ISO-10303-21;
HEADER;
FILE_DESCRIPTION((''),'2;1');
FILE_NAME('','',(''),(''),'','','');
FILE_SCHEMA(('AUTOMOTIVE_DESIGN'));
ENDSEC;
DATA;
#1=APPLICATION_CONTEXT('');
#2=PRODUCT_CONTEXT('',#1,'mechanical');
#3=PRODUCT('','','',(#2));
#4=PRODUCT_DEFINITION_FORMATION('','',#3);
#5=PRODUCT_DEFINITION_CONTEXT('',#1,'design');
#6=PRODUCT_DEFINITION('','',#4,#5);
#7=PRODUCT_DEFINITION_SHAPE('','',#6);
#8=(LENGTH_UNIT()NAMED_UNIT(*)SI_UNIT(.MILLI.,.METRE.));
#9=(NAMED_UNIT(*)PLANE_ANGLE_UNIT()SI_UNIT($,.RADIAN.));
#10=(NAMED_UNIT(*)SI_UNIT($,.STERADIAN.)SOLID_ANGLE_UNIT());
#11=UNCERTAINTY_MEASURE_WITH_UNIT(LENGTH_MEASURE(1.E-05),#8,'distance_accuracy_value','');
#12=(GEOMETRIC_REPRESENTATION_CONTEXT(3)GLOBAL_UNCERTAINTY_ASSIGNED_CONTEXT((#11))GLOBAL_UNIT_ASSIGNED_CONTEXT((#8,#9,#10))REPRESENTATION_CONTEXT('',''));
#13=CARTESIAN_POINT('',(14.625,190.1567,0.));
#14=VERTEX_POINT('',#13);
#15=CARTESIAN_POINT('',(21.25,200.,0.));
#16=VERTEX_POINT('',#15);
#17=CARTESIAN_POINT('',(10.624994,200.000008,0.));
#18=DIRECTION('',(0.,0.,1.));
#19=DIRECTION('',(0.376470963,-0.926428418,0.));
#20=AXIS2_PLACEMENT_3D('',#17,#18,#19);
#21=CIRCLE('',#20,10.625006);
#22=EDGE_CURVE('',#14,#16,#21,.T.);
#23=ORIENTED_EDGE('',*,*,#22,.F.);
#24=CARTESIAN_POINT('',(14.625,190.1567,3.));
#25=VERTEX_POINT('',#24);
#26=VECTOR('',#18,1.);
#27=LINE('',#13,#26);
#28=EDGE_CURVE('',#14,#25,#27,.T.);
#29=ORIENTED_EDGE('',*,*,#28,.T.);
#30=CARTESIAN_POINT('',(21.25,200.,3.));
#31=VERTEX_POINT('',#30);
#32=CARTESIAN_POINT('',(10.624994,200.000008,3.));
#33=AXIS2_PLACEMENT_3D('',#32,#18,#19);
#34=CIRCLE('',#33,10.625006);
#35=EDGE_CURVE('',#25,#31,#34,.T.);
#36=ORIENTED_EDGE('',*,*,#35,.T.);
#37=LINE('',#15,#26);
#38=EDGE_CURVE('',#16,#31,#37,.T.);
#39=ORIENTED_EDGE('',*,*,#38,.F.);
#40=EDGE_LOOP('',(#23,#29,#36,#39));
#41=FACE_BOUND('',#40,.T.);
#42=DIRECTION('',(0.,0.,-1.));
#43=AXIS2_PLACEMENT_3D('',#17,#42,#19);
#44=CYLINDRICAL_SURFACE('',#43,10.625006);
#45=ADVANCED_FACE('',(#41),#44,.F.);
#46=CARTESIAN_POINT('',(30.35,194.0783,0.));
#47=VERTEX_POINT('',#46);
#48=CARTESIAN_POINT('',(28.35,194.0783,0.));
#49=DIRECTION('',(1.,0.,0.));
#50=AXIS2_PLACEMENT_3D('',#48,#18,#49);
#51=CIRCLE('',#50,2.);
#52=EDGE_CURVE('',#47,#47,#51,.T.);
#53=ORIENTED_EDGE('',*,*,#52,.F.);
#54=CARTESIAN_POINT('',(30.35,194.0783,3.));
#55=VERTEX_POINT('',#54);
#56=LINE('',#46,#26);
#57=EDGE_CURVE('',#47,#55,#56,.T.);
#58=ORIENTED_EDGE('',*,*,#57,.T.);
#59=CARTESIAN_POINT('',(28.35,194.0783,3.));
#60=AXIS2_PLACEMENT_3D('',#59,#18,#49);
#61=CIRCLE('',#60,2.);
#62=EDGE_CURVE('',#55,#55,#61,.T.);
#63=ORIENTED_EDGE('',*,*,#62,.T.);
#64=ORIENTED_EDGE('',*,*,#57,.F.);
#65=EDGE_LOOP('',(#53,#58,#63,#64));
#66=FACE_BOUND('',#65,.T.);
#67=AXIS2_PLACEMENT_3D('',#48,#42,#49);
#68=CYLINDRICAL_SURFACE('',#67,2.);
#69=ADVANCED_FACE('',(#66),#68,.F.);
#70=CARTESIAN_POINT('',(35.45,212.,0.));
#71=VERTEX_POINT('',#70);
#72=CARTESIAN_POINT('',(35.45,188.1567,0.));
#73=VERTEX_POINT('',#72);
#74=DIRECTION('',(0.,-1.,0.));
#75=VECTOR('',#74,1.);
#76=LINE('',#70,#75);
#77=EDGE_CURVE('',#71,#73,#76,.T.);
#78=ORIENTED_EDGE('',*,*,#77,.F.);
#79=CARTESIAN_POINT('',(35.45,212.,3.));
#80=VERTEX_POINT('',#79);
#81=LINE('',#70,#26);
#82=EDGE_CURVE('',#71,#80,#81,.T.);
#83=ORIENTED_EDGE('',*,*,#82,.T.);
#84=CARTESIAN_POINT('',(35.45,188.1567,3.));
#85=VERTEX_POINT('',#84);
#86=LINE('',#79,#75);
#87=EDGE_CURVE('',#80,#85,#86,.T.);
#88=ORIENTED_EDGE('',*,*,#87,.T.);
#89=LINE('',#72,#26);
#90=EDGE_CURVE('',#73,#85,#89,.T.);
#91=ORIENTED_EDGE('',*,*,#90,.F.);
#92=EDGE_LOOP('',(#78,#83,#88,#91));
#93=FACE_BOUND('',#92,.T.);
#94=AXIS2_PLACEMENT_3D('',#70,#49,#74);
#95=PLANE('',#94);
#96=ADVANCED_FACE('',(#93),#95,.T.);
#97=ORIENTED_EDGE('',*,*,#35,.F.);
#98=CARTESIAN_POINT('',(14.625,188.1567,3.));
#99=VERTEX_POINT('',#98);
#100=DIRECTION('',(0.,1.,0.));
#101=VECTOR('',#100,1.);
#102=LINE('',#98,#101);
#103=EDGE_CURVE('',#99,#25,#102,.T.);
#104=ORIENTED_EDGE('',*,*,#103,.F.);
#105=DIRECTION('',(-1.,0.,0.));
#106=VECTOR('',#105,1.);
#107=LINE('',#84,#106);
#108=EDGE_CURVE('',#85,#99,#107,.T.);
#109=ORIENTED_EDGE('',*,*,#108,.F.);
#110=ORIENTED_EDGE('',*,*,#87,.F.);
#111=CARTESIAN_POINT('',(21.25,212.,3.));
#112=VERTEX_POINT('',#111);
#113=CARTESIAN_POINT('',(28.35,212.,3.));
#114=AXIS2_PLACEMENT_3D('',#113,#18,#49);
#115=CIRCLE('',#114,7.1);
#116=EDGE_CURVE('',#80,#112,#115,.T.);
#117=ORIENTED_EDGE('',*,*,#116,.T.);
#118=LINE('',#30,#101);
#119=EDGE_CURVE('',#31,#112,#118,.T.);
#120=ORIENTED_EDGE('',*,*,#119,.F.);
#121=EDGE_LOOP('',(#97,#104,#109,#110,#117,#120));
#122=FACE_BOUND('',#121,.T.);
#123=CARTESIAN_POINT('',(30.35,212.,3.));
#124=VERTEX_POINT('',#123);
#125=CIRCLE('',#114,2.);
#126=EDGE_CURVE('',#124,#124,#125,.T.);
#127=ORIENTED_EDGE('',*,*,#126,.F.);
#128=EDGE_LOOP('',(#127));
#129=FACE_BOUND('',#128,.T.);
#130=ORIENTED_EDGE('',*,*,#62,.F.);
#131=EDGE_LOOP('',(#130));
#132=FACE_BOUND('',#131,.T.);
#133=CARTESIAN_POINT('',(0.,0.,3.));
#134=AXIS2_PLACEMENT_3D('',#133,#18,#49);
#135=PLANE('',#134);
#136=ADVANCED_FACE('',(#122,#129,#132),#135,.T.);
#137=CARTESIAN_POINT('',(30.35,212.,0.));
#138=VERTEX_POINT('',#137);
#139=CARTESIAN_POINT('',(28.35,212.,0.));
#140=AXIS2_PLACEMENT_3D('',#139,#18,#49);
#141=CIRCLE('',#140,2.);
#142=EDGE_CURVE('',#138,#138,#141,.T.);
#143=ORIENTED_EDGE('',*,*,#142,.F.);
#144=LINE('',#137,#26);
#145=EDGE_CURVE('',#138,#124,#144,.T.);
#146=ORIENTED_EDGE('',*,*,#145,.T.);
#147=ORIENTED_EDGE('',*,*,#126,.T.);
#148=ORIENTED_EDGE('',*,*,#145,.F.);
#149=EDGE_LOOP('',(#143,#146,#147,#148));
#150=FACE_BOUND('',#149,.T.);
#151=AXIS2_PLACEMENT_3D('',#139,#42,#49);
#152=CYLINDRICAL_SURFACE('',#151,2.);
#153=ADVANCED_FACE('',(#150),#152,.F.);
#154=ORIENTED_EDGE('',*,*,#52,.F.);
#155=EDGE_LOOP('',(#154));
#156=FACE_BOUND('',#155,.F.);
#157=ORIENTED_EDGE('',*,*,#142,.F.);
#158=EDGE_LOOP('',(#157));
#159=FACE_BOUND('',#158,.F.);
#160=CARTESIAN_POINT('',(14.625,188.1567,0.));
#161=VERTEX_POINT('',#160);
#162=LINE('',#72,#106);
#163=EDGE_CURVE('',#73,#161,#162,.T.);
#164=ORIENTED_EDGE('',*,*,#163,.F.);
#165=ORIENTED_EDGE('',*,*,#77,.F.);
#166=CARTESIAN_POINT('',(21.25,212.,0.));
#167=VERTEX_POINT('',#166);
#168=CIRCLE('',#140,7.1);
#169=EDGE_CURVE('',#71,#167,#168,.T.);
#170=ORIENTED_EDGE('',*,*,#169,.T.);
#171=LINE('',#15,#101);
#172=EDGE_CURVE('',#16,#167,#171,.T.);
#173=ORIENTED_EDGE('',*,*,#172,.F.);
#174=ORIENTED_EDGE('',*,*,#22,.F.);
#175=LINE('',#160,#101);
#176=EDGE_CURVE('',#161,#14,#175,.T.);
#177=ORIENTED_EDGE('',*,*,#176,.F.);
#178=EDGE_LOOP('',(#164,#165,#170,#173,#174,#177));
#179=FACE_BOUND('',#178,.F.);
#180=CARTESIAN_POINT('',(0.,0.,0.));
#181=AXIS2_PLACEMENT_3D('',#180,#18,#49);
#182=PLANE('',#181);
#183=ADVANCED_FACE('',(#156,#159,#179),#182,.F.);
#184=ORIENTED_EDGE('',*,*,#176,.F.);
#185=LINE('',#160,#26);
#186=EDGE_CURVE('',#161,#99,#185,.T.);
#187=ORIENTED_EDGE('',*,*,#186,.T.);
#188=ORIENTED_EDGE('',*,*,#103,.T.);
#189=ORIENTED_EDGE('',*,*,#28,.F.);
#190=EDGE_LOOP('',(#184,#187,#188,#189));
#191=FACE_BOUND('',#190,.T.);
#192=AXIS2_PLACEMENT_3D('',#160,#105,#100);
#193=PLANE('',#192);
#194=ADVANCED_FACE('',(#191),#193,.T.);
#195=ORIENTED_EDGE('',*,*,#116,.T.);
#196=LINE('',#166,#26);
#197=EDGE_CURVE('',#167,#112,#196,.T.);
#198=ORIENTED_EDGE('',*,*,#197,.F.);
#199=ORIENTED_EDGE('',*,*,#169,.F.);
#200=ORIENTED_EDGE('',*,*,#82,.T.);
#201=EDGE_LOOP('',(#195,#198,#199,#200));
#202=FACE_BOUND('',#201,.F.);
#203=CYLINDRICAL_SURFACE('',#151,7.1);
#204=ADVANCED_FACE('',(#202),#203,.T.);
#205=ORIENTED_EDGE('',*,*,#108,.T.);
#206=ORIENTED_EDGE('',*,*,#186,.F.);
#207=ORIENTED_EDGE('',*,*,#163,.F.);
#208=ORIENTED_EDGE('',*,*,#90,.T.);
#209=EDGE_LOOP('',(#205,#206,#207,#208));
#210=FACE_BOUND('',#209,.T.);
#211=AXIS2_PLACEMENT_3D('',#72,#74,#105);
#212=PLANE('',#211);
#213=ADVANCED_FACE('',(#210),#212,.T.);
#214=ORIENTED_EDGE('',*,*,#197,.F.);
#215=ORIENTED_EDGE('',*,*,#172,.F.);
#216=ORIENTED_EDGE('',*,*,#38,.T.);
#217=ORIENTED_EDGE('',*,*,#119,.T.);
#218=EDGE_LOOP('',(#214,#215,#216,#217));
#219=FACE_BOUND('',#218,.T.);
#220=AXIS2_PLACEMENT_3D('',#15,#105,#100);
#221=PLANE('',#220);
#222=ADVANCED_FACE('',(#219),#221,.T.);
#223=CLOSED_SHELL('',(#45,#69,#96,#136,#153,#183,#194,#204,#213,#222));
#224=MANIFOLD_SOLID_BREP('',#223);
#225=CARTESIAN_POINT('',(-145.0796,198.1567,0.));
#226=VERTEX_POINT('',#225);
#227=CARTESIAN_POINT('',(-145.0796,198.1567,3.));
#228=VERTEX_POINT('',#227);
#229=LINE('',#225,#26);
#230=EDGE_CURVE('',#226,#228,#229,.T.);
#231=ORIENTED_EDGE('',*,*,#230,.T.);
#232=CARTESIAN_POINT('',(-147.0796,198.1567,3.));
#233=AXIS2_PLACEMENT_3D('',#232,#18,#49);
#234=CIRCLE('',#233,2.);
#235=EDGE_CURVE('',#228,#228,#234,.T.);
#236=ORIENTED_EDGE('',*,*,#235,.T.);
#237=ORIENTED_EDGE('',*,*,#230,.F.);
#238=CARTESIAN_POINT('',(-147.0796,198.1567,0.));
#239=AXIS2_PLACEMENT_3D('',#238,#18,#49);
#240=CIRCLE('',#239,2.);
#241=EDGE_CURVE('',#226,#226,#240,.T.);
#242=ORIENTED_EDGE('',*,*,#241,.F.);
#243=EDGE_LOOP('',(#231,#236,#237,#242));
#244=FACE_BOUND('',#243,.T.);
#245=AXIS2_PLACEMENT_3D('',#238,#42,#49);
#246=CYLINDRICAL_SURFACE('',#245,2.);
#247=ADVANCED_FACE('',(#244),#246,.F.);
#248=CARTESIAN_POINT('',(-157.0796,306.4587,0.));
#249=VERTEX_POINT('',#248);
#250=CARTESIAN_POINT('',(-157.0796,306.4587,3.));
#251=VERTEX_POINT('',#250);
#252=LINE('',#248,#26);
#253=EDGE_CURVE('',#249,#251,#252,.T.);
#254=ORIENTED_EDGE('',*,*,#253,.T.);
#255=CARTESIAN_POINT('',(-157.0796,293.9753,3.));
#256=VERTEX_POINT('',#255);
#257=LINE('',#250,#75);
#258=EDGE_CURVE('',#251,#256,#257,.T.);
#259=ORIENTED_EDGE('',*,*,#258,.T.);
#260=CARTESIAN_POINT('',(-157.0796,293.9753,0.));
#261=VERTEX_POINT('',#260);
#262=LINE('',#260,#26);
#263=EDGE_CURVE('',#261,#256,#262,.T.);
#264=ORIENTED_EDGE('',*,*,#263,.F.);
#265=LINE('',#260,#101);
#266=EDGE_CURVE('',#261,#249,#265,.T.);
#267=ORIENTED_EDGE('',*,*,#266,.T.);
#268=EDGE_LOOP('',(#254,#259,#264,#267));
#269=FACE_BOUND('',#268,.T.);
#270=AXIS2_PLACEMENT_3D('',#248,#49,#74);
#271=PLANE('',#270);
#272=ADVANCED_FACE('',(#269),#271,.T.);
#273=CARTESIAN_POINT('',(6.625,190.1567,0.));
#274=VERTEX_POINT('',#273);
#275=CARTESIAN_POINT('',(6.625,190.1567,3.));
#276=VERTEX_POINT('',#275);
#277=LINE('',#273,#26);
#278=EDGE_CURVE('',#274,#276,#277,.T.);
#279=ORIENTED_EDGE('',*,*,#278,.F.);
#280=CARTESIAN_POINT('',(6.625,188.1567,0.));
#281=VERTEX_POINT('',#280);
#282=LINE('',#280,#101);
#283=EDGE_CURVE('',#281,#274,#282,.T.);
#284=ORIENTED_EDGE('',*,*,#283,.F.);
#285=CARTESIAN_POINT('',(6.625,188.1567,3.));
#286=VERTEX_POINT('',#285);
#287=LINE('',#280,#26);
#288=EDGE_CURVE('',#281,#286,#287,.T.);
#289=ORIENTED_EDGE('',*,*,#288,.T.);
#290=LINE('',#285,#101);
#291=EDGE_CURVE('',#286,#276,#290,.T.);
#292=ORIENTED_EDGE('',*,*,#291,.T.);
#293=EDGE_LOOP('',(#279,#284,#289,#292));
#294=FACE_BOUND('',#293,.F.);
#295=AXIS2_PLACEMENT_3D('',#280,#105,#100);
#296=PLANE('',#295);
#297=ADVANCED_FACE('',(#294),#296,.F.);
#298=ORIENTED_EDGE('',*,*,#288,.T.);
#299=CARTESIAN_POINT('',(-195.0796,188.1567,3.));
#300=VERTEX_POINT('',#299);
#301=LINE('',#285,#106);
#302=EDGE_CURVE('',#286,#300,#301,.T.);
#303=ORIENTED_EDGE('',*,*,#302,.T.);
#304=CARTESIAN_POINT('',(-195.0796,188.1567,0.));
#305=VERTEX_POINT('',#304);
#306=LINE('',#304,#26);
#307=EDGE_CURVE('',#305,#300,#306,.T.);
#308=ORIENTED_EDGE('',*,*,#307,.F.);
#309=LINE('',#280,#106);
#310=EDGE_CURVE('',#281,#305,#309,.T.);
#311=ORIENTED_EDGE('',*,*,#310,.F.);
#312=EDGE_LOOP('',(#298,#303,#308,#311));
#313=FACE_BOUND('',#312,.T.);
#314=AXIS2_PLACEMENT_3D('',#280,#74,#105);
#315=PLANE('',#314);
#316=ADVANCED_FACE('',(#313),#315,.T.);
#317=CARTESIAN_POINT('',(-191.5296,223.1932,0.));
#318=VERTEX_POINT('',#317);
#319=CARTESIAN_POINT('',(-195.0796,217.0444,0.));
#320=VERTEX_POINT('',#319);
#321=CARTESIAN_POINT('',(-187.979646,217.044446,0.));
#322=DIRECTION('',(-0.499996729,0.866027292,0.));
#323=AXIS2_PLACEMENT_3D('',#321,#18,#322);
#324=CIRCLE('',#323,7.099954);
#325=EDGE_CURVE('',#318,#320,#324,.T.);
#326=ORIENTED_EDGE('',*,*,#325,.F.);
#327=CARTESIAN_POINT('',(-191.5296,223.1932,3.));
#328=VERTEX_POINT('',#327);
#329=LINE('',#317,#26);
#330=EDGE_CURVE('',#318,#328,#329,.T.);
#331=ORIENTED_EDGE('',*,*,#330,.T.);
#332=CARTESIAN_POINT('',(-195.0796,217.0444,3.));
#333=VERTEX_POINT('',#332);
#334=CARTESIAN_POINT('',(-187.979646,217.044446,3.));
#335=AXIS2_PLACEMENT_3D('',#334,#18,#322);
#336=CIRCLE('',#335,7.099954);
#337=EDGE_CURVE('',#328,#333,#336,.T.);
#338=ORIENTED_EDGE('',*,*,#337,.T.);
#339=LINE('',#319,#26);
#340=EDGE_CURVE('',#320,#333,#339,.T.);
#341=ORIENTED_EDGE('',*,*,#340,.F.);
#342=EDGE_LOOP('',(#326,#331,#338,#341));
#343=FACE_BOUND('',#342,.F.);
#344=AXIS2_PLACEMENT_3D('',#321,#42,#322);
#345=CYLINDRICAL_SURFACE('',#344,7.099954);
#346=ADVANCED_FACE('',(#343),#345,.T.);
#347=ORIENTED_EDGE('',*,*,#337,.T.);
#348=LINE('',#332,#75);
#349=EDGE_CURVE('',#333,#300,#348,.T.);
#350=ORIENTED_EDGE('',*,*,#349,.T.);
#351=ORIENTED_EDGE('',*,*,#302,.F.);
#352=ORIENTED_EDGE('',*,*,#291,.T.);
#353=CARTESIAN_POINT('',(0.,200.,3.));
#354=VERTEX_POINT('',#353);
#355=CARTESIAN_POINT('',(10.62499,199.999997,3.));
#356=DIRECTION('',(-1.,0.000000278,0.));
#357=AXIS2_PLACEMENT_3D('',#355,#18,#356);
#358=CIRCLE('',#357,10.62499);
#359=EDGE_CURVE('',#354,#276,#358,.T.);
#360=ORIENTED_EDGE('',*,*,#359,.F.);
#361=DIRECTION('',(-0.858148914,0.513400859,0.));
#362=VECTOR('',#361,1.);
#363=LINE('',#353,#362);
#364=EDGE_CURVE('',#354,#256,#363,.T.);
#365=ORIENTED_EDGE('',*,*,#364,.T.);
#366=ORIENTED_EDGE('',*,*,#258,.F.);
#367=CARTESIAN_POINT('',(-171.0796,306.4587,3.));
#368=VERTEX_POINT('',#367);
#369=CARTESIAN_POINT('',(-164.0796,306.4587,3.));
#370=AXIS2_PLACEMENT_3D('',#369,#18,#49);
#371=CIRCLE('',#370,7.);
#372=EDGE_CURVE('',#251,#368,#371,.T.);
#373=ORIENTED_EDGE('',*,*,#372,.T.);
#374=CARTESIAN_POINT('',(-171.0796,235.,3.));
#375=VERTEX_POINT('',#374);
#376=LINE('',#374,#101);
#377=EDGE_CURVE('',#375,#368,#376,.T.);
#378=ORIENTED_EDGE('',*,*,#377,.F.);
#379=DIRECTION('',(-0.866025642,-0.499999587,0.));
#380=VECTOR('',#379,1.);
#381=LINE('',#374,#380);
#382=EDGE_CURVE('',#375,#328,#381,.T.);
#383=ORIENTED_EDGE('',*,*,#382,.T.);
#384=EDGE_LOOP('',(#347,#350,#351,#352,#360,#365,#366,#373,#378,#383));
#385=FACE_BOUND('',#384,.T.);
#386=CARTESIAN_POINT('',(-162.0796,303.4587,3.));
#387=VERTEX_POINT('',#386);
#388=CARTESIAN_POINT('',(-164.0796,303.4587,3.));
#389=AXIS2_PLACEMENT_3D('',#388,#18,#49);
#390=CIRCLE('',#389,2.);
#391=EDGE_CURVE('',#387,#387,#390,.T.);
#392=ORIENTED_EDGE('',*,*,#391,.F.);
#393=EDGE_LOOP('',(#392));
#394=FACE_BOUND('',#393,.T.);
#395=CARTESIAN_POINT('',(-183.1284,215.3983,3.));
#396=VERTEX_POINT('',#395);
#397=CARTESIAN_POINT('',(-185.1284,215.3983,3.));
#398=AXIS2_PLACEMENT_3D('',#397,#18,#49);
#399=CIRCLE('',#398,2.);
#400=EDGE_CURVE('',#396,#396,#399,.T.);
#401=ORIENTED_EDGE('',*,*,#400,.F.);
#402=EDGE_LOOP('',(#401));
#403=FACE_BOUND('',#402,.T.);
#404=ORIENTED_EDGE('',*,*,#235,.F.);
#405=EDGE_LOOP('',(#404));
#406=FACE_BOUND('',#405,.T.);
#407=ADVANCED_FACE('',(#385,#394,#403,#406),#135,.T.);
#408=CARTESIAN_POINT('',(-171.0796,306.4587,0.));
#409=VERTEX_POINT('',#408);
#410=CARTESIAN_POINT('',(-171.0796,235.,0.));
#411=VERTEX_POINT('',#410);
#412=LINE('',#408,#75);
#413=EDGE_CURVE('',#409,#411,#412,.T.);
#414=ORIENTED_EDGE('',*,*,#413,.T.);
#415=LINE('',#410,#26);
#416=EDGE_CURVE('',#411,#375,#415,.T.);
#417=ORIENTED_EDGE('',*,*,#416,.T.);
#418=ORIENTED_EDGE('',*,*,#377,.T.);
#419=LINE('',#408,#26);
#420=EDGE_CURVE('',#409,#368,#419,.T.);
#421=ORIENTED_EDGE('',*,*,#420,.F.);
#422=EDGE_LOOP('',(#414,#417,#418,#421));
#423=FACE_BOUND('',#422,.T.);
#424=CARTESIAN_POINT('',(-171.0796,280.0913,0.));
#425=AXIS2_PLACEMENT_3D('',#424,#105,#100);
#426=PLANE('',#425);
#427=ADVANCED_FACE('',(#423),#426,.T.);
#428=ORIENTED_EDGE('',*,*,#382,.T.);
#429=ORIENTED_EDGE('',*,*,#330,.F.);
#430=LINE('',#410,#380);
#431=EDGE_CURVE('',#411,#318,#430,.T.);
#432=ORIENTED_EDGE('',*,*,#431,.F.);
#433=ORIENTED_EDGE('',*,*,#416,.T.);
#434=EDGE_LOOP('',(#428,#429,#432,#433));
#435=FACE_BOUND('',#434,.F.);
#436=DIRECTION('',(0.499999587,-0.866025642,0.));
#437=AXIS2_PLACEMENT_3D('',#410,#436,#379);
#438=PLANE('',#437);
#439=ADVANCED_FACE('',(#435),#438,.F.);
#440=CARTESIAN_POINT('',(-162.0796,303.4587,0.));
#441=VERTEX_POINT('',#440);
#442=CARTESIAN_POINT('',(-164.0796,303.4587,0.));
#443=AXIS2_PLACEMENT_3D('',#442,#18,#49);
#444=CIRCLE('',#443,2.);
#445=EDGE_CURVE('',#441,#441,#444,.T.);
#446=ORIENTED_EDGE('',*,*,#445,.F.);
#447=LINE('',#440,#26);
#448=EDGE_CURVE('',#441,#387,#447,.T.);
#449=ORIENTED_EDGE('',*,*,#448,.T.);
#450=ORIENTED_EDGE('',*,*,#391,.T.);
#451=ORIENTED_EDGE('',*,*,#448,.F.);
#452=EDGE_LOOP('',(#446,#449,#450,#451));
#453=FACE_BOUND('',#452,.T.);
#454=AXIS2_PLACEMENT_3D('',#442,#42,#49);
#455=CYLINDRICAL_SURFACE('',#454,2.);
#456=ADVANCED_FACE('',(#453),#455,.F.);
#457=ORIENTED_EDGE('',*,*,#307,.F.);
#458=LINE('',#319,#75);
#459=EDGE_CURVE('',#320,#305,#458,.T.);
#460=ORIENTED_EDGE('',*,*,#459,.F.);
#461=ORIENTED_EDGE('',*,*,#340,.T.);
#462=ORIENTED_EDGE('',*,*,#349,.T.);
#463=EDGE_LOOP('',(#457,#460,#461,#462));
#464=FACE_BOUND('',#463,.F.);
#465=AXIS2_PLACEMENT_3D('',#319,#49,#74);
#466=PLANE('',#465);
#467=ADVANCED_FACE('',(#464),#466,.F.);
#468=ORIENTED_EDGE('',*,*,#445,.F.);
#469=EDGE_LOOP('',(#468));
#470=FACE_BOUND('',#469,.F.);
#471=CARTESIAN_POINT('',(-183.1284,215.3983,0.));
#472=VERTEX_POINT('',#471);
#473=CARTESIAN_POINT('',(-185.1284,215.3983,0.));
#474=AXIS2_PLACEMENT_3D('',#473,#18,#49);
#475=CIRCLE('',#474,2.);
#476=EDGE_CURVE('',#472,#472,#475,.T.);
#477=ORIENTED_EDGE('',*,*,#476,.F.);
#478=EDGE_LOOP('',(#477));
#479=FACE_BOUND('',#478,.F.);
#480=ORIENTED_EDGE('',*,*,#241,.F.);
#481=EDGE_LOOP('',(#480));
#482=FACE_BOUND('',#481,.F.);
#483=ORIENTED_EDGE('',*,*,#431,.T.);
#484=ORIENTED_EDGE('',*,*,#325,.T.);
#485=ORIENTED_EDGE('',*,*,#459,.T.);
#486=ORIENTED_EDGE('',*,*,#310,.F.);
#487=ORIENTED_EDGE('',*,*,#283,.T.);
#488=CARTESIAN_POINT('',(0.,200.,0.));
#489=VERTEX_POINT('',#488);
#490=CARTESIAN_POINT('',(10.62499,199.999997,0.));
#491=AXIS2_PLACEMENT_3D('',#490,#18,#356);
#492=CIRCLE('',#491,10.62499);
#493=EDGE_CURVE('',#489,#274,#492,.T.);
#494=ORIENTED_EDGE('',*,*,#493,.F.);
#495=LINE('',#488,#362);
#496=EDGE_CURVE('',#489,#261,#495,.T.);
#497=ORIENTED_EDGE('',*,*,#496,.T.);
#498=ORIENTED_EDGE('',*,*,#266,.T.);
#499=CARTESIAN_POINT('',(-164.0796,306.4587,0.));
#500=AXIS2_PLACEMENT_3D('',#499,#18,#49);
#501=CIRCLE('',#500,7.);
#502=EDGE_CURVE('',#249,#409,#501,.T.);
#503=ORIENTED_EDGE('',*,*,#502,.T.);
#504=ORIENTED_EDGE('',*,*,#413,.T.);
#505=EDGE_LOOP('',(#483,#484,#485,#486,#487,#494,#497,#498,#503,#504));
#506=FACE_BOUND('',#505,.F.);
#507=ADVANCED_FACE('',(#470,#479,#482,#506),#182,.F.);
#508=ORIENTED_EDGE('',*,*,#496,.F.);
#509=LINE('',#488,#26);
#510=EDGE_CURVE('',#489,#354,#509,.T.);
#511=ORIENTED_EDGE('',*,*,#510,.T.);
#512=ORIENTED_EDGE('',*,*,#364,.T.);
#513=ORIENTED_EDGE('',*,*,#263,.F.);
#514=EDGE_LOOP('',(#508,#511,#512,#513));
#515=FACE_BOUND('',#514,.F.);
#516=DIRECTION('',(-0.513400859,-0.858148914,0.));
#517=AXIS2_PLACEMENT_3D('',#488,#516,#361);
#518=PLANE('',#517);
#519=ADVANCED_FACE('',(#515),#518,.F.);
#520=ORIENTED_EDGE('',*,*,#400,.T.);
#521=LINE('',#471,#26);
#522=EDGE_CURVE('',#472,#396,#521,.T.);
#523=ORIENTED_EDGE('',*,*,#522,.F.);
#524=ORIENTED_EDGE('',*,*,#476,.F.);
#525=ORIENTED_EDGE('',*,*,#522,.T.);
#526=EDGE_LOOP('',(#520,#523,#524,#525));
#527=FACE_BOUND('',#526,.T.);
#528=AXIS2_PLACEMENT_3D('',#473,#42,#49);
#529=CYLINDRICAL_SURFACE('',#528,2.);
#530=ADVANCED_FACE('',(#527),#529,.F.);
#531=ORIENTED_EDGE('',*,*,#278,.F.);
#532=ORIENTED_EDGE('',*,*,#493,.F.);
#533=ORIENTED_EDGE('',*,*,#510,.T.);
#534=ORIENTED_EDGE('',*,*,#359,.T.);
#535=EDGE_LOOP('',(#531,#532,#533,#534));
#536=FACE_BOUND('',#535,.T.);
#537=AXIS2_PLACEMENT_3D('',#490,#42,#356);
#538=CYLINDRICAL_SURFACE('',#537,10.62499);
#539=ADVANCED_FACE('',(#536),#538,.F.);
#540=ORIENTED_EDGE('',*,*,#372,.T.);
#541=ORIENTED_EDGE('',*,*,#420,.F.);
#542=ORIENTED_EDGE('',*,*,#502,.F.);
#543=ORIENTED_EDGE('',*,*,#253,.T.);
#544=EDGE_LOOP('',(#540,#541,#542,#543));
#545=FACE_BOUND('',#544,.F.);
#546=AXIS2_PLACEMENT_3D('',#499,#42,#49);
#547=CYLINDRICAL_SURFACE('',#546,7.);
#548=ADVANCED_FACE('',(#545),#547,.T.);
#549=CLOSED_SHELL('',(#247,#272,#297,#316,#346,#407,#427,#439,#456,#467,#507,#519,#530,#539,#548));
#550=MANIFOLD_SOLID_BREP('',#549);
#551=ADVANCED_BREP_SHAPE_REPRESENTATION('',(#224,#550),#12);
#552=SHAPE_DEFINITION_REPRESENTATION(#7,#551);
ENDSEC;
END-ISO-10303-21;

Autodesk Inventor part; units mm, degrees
ref_plane "YZ Plane" through (0, 0, 0) normal (1, 0, 0) x (0, 1, 0)
ref_plane "XZ Plane" through (0, 0, 0) normal (0, 1, 0) x (-1, 0, 0)
ref_plane "XY Plane" through (0, 0, 0) normal (0, 0, 1) x (1, 0, 0)
sketch "Sketch3" plane through (0, 0, 0) normal (0, 0, 1) x (1, 0, 0)
  circle A0 centre (367.816, 50) radius 50 construction
  line L0 (367.816, 0) -> (512.7041, 0) construction
  line L1 (367.816, 50) -> (512.7041, 50) construction
  line L2 (367.816, 100) -> (512.7041, 100) construction
  line L3 (367.816, 50) -> (342.816, 6.6987) construction
  line L4 (367.816, 50) -> (324.5147, 25) construction
  line L5 (367.816, 50) -> (324.5147, 75) construction
  line L6 (342.816, 93.3013) -> (367.816, 50) construction
  line L7 (392.816, 93.3013) -> (367.816, 50) construction
  line L8 (411.1173, 75) -> (367.816, 50) construction
  line L9 (411.1173, 25) -> (367.816, 50) construction
  line L10 (392.816, 6.6987) -> (367.816, 50) construction
  line L11 (367.816, 0) -> (367.816, 100) construction
  line L12 (417.816, 50) -> (367.816, 50) construction
  line L13 (341.6361, 0) -> (341.6361, 100) construction
  line L14 (315.4561, 0) -> (315.4561, 100) construction
  line L15 (289.2762, 0) -> (289.2762, 100) construction
  line L16 (263.0963, 0) -> (263.0963, 100) construction
  line L17 (236.9163, 0) -> (236.9163, 100) construction
  line L18 (210.7364, 0) -> (210.7364, 100) construction
  line L19 (184.5564, 0) -> (184.5564, 100) construction
  line L20 (158.3765, 0) -> (158.3765, 100) construction
  circle A1 centre (315.4561, 50) radius 50 construction
  circle A2 centre (341.6361, 50) radius 50 construction
  circle A3 centre (289.2762, 50) radius 50 construction
  circle A4 centre (263.0963, 50) radius 50 construction
  circle A5 centre (236.9163, 50) radius 50 construction
  circle A6 centre (210.7364, 50) radius 50 construction
  line L21 (392.816, 6.6987) -> (512.7041, 6.6987) construction
  line L22 (411.1173, 25) -> (512.7041, 25) construction
  line L23 (411.1173, 75) -> (512.7041, 75) construction
  line L24 (411.1173, 75) -> (512.7041, 75) construction
  line L25 (392.816, 93.3013) -> (512.7041, 93.3013) construction
  line L26 (358.7574, 75) -> (339.2762, 50) construction
  line L27 (339.2762, 50) -> (306.3975, 25) construction
  line L28 (306.3975, 25) -> (261.9163, 6.6987) construction
  line L29 (261.9163, 6.6987) -> (210.7364, 0) construction
  line L30 (105.3682, -12.9392) -> (105.3682, 124.4333) construction
  line L31 (21.25, 0) -> (21.25, 12)
  line L32 (35.45, 12) -> (35.45, -11.8433)
  arc A7 (0, 0) -> (6.625, -9.8433) centre (10.625, 0) ccw
  arc A8 (14.625, -9.8433) -> (21.25, 0) centre (10.625, 0) ccw
  line L33 (35.45, -11.8433) -> (14.625, -11.8433)
  line L34 (6.625, -11.8433) -> (-195.0796, -11.8433)
  circle A9 centre (-144.26, 100.8473) radius 12.875 construction
  line L35 (6.625, -11.8433) -> (6.625, -9.8433)
  line L36 (14.625, -11.8433) -> (14.625, -9.8433)
  line L37 (411.1173, 75) -> (158.3765, 75) construction
  line L38 (367.816, 100) -> (158.3765, 100) construction
  line L39 (417.816, 50) -> (158.3765, 50) construction
  line L40 (411.1173, 25) -> (158.3765, 25) construction
  line L41 (392.816, 6.6987) -> (158.3765, 6.6987) construction
  line L42 (392.816, 93.3013) -> (158.3765, 93.3013) construction
  line L43 (358.7574, 75) -> (366.6361, 93.3013) construction
  line L44 (366.6361, 93.3013) -> (367.816, 100) construction
  spline S0 degree 4 poles (-157.0796, 100) (-157.0796, 88.9946) (-147.011, 72.6811) (-131.8577, 48.7932) (-88.4777, 17.6268) (-50.0176, 3.937) (-18.8717, 0) (0, 0) knots 0 0 0 0 0 0.264547 0.457223 0.66608 1 1 1 1 1
  line L45 (-157.0796, 100) -> (-157.0796, 38) construction
  line L46 (0, 0) -> (-157.0796, 0) construction
  line L47 (-144.26, 100.8473) -> (-157.135, 100.8473) construction
  circle A10 centre (-146.4546, 100) radius 10.625 construction
  line L48 (-146.4546, 100) -> (-157.0796, 100) construction
  line L49 (-141.0754, 84.4005) -> (-135.6205, 93.5183) construction
  line L50 (-141.0796, 132.0528) -> (-171.0796, 149.3733) construction
  line L51 (-171.0796, 149.3733) -> (-201.0796, 132.0528) construction
  line L52 (-141.0754, 84.4005) -> (-99.2801, 84.4005) construction
  line L53 (-201.0796, 132.0528) -> (-201.0796, 97.4118) construction
  line L54 (-201.0796, 97.4118) -> (-171.0796, 80.0913) construction
  line L55 (0, 0) -> (-157.0796, 93.9753) construction
  line L56 (-135.6205, 93.5183) -> (-137.3368, 94.5451) construction
  line L57 (-137.3368, 94.5451) -> (-143.2815, 84.6085) construction
  line L58 (-137.3368, 94.5451) -> (-171.0796, 114.7323) construction
  line L59 (-201.0796, 132.0528) -> (-171.0796, 114.7323) construction
  arc A11 (-137.3368, 94.5451) -> (-144.7045, 143.8948) centre (-171.0796, 114.7323) ccw construction
  arc A12 (-142.7917, 85.4273) -> (-147.1443, 147.6882) centre (-171.0796, 114.7323) ccw construction
  line L60 (-171.0796, 80.0913) -> (-171.0796, 35)
  circle A13 centre (-171.0796, 114.7323) radius 2.5 construction
  arc A14 (-167.4345, 120.8251) -> (-174.7248, 108.6394) centre (-171.0796, 114.7323) ccw construction
  line L61 (-167.4345, 120.8251) -> (-157.0796, 114.6302) construction
  line L62 (-171.0796, 80.0913) -> (-171.0796, 106.4587)
  line L63 (-171.0796, 106.4587) -> (-174.7248, 108.6394) construction
  line L64 (-171.0796, 35) -> (-191.5296, 23.1932)
  arc A15 (-191.5296, 23.1932) -> (-195.0796, 17.0444) centre (-187.9796, 17.0444) ccw
  line L65 (-195.0796, 17.0444) -> (-195.0796, -11.8433)
  arc A16 (35.45, 12) -> (21.25, 12) centre (28.35, 12) ccw
  line L66 (-157.0796, 114.6302) -> (-157.0796, 99.9865) construction
  circle A17 centre (-164.0796, 103.4587) radius 2
  line L67 (-171.0796, 103.4587) -> (-157.0796, 103.4587) construction
  circle A18 centre (-185.1284, 15.3983) radius 2
  line L68 (-185.1284, 15.3983) -> (-194.1284, 20.5944) construction
  circle A19 centre (-6, -5.9217) radius 2
  line L69 (-6, -11.8433) -> (-6, 0) construction
  circle A20 centre (28.35, 12) radius 2
  circle A21 centre (28.35, -5.9217) radius 2
  line L70 (-167.4345, 320.8251) -> (-157.0796, 314.6302) construction
  arc A22 (-167.4345, 320.8251) -> (-174.7248, 308.6394) centre (-171.0796, 314.7323) ccw construction
  circle A23 centre (-171.0796, 314.7323) radius 2.5 construction
  line L71 (-171.0796, 280.0913) -> (-171.0796, 306.4587)
  line L72 (-171.0796, 306.4587) -> (-174.7248, 308.6394) construction
  line L73 (-157.0796, 314.6302) -> (-157.0796, 299.9865) construction
  circle A24 centre (-164.0796, 303.4587) radius 2
  spline S1 degree 4 poles (-157.0796, 300) (-157.0796, 288.9946) (-147.0234, 272.6841) (-124.1789, 236.7977) (-70.8039, 208.0704) (-31.8865, 200.2943) (0, 200) knots 0 0 0 0 0 0.264547 0.457223 1 1 1 1 1 construction
  line L74 (-157.0796, 300) -> (-157.0796, 238) construction
  arc A25 (0, 200) -> (6.625, 190.1567) centre (10.625, 200) ccw
  line L75 (35.45, 212) -> (35.45, 188.1567)
  circle A26 centre (28.35, 212) radius 2
  circle A27 centre (28.35, 194.0783) radius 2
  arc A28 (35.45, 212) -> (21.25, 212) centre (28.35, 212) ccw
  line L76 (21.25, 200) -> (21.25, 212)
  line L77 (35.45, 188.1567) -> (14.625, 188.1567)
  arc A29 (14.625, 190.1567) -> (21.25, 200) centre (10.625, 200) ccw
  line L78 (14.625, 188.1567) -> (14.625, 190.1567)
  line L79 (-185.1284, 215.3983) -> (-194.1284, 220.5944) construction
  arc A30 (-191.5296, 223.1932) -> (-195.0796, 217.0444) centre (-187.9796, 217.0444) ccw
  line L80 (-195.0796, 217.0444) -> (-195.0796, 188.1567)
  line L81 (-171.0796, 235) -> (-191.5296, 223.1932)
  circle A31 centre (-185.1284, 215.3983) radius 2
  line L82 (-171.0796, 280.0913) -> (-171.0796, 235)
  line L83 (6.625, 188.1567) -> (-195.0796, 188.1567)
  line L84 (6.625, 188.1567) -> (6.625, 190.1567)
  line L85 (-137.3368, 294.5451) -> (-143.2815, 284.6085) construction
  line L86 (-141.0754, 284.4005) -> (-135.6205, 293.5183) construction
  line L87 (0, 200) -> (-157.0796, 293.9753)
  line L88 (-167.4345, 520.8251) -> (-157.0796, 514.6302) construction
  arc A32 (-167.4345, 520.8251) -> (-174.7248, 508.6394) centre (-171.0796, 514.7323) ccw construction
  circle A33 centre (-171.0796, 514.7323) radius 2.5 construction
  line L89 (-171.0796, 480.0913) -> (-171.0796, 506.4587)
  line L90 (-171.0796, 506.4587) -> (-174.7248, 508.6394) construction
  line L91 (-157.0796, 514.6302) -> (-157.0796, 499.9865) construction
  circle A34 centre (-164.0796, 503.4587) radius 2
  spline S2 degree 4 poles (-157.0796, 500) (-157.0796, 488.9946) (-147.0234, 472.6841) (-124.1789, 436.7977) (-70.8039, 408.0704) (-31.8865, 400.2943) (0, 400) knots 0 0 0 0 0 0.264547 0.457223 1 1 1 1 1 construction
  line L92 (-157.0796, 500) -> (-157.0796, 438)
  arc A35 (0, 400) -> (6.625, 390.1567) centre (10.625, 400) ccw
  line L93 (35.45, 412) -> (35.45, 388.1567)
  circle A36 centre (28.35, 412) radius 2
  circle A37 centre (28.35, 394.0783) radius 2
  arc A38 (35.45, 412) -> (21.25, 412) centre (28.35, 412) ccw
  line L94 (21.25, 400) -> (21.25, 412)
  line L95 (35.45, 388.1567) -> (14.625, 388.1567)
  arc A39 (14.625, 390.1567) -> (21.25, 400) centre (10.625, 400) ccw
  line L96 (14.625, 388.1567) -> (14.625, 390.1567)
  line L97 (-185.1284, 415.3983) -> (-194.1284, 420.5944) construction
  arc A40 (-191.5296, 423.1932) -> (-195.0796, 417.0444) centre (-187.9796, 417.0444) ccw
  line L98 (-195.0796, 417.0444) -> (-195.0796, 388.1567)
  line L99 (-171.0796, 435) -> (-191.5296, 423.1932)
  circle A41 centre (-185.1284, 415.3983) radius 2
  line L100 (-171.0796, 480.0913) -> (-171.0796, 435)
  line L101 (6.625, 388.1567) -> (-195.0796, 388.1567)
  line L102 (6.625, 388.1567) -> (6.625, 390.1567)
  line L103 (-137.3368, 494.5451) -> (-143.2815, 484.6085) construction
  line L104 (-141.0754, 484.4005) -> (-135.6205, 493.5183) construction
  line L105 (0, 400) -> (-157.0796, 493.9753) construction
  line L106 (-467.4345, 120.8251) -> (-457.0796, 114.6302) construction
  arc A42 (-467.4345, 120.8251) -> (-474.7248, 108.6394) centre (-471.0796, 114.7323) ccw construction
  circle A43 centre (-471.0796, 114.7323) radius 2.5 construction
  line L107 (-471.0796, 80.0913) -> (-471.0796, 106.4587)
  line L108 (-471.0796, 106.4587) -> (-474.7248, 108.6394) construction
  line L109 (-457.0796, 114.6302) -> (-457.0796, 99.9865) construction
  circle A44 centre (-464.0796, 103.4587) radius 2
  spline S3 degree 4 poles (-457.0796, 100) (-457.0796, 88.9946) (-447.0234, 72.6841) (-424.1789, 36.7977) (-370.8039, 8.0704) (-331.8865, 0.2943) (-300, 0) knots 0 0 0 0 0 0.264547 0.457223 1 1 1 1 1 construction
  line L110 (-457.0796, 100) -> (-457.0796, 38) construction
  arc A45 (-300, 0) -> (-293.375, -9.8433) centre (-289.375, 0) ccw construction
  line L111 (-264.55, 12) -> (-264.55, -11.8433)
  circle A46 centre (-271.65, 12) radius 2
  circle A47 centre (-271.65, -5.9217) radius 2
  arc A48 (-264.55, 12) -> (-278.75, 12) centre (-271.65, 12) ccw
  line L112 (-278.75, 0) -> (-278.75, 12) construction
  line L113 (-264.55, -11.8433) -> (-285.375, -11.8433)
  arc A49 (-285.375, -9.8433) -> (-278.75, 0) centre (-289.375, 0) ccw construction
  line L114 (-285.375, -11.8433) -> (-285.375, -9.8433) construction
  line L115 (-485.1284, 15.3983) -> (-494.1284, 20.5944) construction
  arc A50 (-491.5296, 23.1932) -> (-495.0796, 17.0444) centre (-487.9796, 17.0444) ccw
  line L116 (-495.0796, 17.0444) -> (-495.0796, -11.8433)
  line L117 (-471.0796, 35) -> (-491.5296, 23.1932)
  circle A51 centre (-485.1284, 15.3983) radius 2
  line L118 (-471.0796, 80.0913) -> (-471.0796, 35)
  line L119 (-293.375, -11.8433) -> (-495.0796, -11.8433)
  line L120 (-293.375, -11.8433) -> (-293.375, -9.8433) construction
  line L121 (-437.3368, 94.5451) -> (-443.2815, 84.6085) construction
  line L122 (-441.0754, 84.4005) -> (-435.6205, 93.5183) construction
  line L123 (-300, 0) -> (-457.0796, 93.9753) construction
  line L124 (-467.4345, 320.8251) -> (-457.0796, 314.6302) construction
  arc A52 (-467.4345, 320.8251) -> (-474.7248, 308.6394) centre (-471.0796, 314.7323) ccw construction
  circle A53 centre (-471.0796, 314.7323) radius 2.5 construction
  line L125 (-471.0796, 280.0913) -> (-471.0796, 306.4587)
  line L126 (-471.0796, 306.4587) -> (-474.7248, 308.6394) construction
  line L127 (-457.0796, 314.6302) -> (-457.0796, 299.9865) construction
  circle A54 centre (-464.0796, 303.4587) radius 2
  spline S4 degree 4 poles (-457.0796, 300) (-457.0796, 288.9946) (-447.0234, 272.6841) (-424.1789, 236.7977) (-370.8039, 208.0704) (-331.8865, 200.2943) (-300, 200) knots 0 0 0 0 0 0.264547 0.457223 1 1 1 1 1 construction
  line L128 (-457.0796, 300) -> (-457.0796, 238) construction
  arc A55 (-300, 200) -> (-293.375, 190.1567) centre (-289.375, 200) ccw construction
  line L129 (-264.55, 212) -> (-264.55, 188.1567)
  circle A56 centre (-271.65, 212) radius 2
  circle A57 centre (-271.65, 194.0783) radius 2
  arc A58 (-264.55, 212) -> (-278.75, 212) centre (-271.65, 212) ccw
  line L130 (-278.75, 200) -> (-278.75, 212) construction
  line L131 (-264.55, 188.1567) -> (-285.375, 188.1567)
  arc A59 (-285.375, 190.1567) -> (-278.75, 200) centre (-289.375, 200) ccw construction
  line L132 (-285.375, 188.1567) -> (-285.375, 190.1567) construction
  line L133 (-485.1284, 215.3983) -> (-494.1284, 220.5944) construction
  arc A60 (-491.5296, 223.1932) -> (-495.0796, 217.0444) centre (-487.9796, 217.0444) ccw
  line L134 (-495.0796, 217.0444) -> (-495.0796, 188.1567)
  line L135 (-471.0796, 235) -> (-491.5296, 223.1932)
  circle A61 centre (-485.1284, 215.3983) radius 2
  line L136 (-471.0796, 280.0913) -> (-471.0796, 235)
  line L137 (-293.375, 188.1567) -> (-495.0796, 188.1567)
  line L138 (-293.375, 188.1567) -> (-293.375, 190.1567) construction
  line L139 (-437.3368, 294.5451) -> (-443.2815, 284.6085) construction
  line L140 (-441.0754, 284.4005) -> (-435.6205, 293.5183) construction
  line L141 (-300, 200) -> (-457.0796, 293.9753) construction
  line L142 (-467.4345, 520.8251) -> (-457.0796, 514.6302)
  arc A62 (-467.4345, 520.8251) -> (-474.7248, 508.6394) centre (-471.0796, 514.7323) ccw
  circle A63 centre (-471.0796, 514.7323) radius 2.5
  line L143 (-471.0796, 480.0913) -> (-471.0796, 506.4587)
  line L144 (-471.0796, 506.4587) -> (-474.7248, 508.6394)
  line L145 (-457.0796, 514.6302) -> (-457.0796, 499.9865)
  circle A64 centre (-464.0796, 503.4587) radius 2
  spline S5 degree 4 poles (-457.0796, 500) (-457.0796, 488.9946) (-447.0234, 472.6841) (-424.1789, 436.7977) (-370.8039, 408.0704) (-331.8865, 400.2943) (-300, 400) knots 0 0 0 0 0 0.264547 0.457223 1 1 1 1 1 construction
  line L146 (-457.0796, 500) -> (-457.0796, 438) construction
  arc A65 (-300, 400) -> (-293.375, 390.1567) centre (-289.375, 400) ccw construction
  line L147 (-264.55, 412) -> (-264.55, 388.1567) construction
  circle A66 centre (-271.65, 412) radius 2
  circle A67 centre (-271.65, 394.0783) radius 2
  arc A68 (-264.55, 412) -> (-278.75, 412) centre (-271.65, 412) ccw
  line L148 (-278.75, 400) -> (-278.75, 412) construction
  line L149 (-264.55, 388.1567) -> (-285.375, 388.1567)
  arc A69 (-285.375, 390.1567) -> (-278.75, 400) centre (-289.375, 400) ccw construction
  line L150 (-285.375, 388.1567) -> (-285.375, 390.1567) construction
  line L151 (-485.1284, 415.3983) -> (-494.1284, 420.5944) construction
  arc A70 (-491.5296, 423.1932) -> (-495.0796, 417.0444) centre (-487.9796, 417.0444) ccw
  line L152 (-495.0796, 417.0444) -> (-495.0796, 388.1567) construction
  line L153 (-471.0796, 435) -> (-491.5296, 423.1932)
  circle A71 centre (-485.1284, 415.3983) radius 2
  line L154 (-471.0796, 480.0913) -> (-471.0796, 435)
  line L155 (-293.375, 388.1567) -> (-495.0796, 388.1567)
  line L156 (-293.375, 388.1567) -> (-293.375, 390.1567) construction
  line L157 (-437.3368, 494.5451) -> (-443.2815, 484.6085) construction
  line L158 (-441.0754, 484.4005) -> (-435.6205, 493.5183) construction
  line L159 (-300, 400) -> (-457.0796, 493.9753) construction
  line L160 (-435.4304, 87.048) -> (-430.3073, 83.9831)
  line L161 (-430.3073, 83.9831) -> (-430.3073, 78.0131)
  line L162 (-457.0796, 100) -> (-443.128, 91.6532)
  line L163 (-443.2208, 85.684) -> (-443.128, 91.6532)
  line L164 (-440.6463, 84.1438) -> (-435.4304, 87.048)
  line L165 (-440.6463, 84.1438) -> (-443.2208, 85.684)
  line L166 (-430.3073, 78.0131) -> (-436.0283, 74.7101)
  line L167 (-436.0283, 74.7101) -> (-436.0283, 68.1041)
  spline S6 degree 4 poles (-439.3753, 72.7777) (-420.1522, 45.3403) (-398.6357, 22.4496) (-337.1208, 4.2654) (-300, 5.1701) knots 0 0 0 0 0 1 1 1 1 1
  line L168 (-293.375, -11.8433) -> (-285.375, -11.8433)
  line L169 (-157.0796, 293.9753) -> (-157.0796, 300)
  line L170 (-293.375, 188.1567) -> (-285.375, 188.1567)
  arc A72 (-157.0796, 438) -> (-119.0796, 400) centre (-119.0796, 438) ccw
  line L171 (-119.0796, 400) -> (0, 400)
  line L172 (-457.0796, 500) -> (-457.0796, 438) construction
  line L173 (-419.0796, 400) -> (-300, 400) construction
  arc A73 (-457.0796, 438) -> (-419.0796, 400) centre (-419.0796, 438) ccw construction
  line L174 (-457.0796, 300) -> (-443.128, 291.6532)
  line L175 (-443.2208, 285.684) -> (-443.128, 291.6532)
  line L176 (-440.6463, 284.1438) -> (-443.2208, 285.684)
  line L177 (-440.6463, 284.1438) -> (-435.4304, 287.048)
  line L178 (-435.4304, 287.048) -> (-430.3073, 283.9831)
  line L179 (-430.3073, 283.9831) -> (-430.3073, 278.0131) construction
  line L180 (-430.3073, 278.0131) -> (-436.0283, 274.7101) construction
  line L181 (-457.0796, 500) -> (-443.128, 491.6532)
  line L182 (-443.2208, 485.684) -> (-443.128, 491.6532)
  line L183 (-440.6463, 484.1438) -> (-443.2208, 485.684)
  line L184 (-440.6463, 484.1438) -> (-435.4304, 487.048)
  line L185 (-435.4304, 487.048) -> (-430.3073, 483.9831)
  line L186 (-430.3073, 483.9831) -> (-430.3073, 478.0131)
  line L187 (-430.3073, 478.0131) -> (-436.0283, 474.7101)
  line L188 (-430.3073, 283.9831) -> (-298.5715, 205.1701)
  line L189 (-293.375, 388.1567) -> (-285.375, 388.1567)
  line L190 (-300, 5.1701) -> (-285.5799, 5.1701)
  arc A74 (-285.5799, 5.1701) -> (-278.75, 12) centre (-285.5799, 12) ccw
  line L191 (-298.5715, 205.1701) -> (-285.5799, 205.1701)
  arc A75 (-285.5799, 205.1701) -> (-278.75, 212) centre (-285.5799, 212) ccw
  line L192 (-436.0283, 474.7101) -> (-451.9095, 465.5411)
  line L193 (-451.9095, 465.5411) -> (-451.9095, 438)
  arc A76 (-451.9095, 438) -> (-419.0796, 405.1701) centre (-419.0796, 438) ccw
  line L194 (-419.0796, 405.1701) -> (-285.5799, 405.1701)
  arc A77 (-285.5799, 405.1701) -> (-278.75, 412) centre (-285.5799, 412) ccw
  line L195 (-495.0796, 388.1567) -> (-514.2796, 388.1567)
  line L196 (-514.2796, 388.1567) -> (-514.2796, 392.1567)
  line L197 (-514.2796, 392.1567) -> (-498.0796, 392.1567)
  arc A78 (-498.0796, 392.1567) -> (-495.0796, 395.1567) centre (-498.0796, 395.1567) ccw
  line L198 (-495.0796, 395.1567) -> (-495.0796, 417.0444)
  line L199 (-499.0796, 388.1567) -> (-510.2796, 388.1567) construction
  line L200 (-510.2796, 388.1567) -> (-510.2796, 392.1567) construction
  line L201 (-510.2796, 392.1567) -> (-499.0796, 392.1567) construction
  line L202 (-499.0796, 392.1567) -> (-499.0796, 388.1567) construction
  line L203 (-499.0796, 388.1567) -> (-510.2796, 392.1567) construction
  line L204 (-510.2796, 388.1567) -> (-499.0796, 392.1567) construction
  arc A79 (-600, 200) -> (-593.375, 190.1567) centre (-589.375, 200) ccw construction
  line L205 (-564.55, 212) -> (-564.55, 188.1567) construction
  circle A80 centre (-571.65, 212) radius 2
  circle A81 centre (-571.65, 194.0783) radius 2
  arc A82 (-564.55, 212) -> (-578.75, 212) centre (-571.65, 212) ccw
  line L206 (-578.75, 200) -> (-578.75, 212) construction
  line L207 (-564.55, 188.1567) -> (-585.375, 188.1567)
  arc A83 (-585.375, 190.1567) -> (-578.75, 200) centre (-589.375, 200) ccw construction
  line L208 (-585.375, 188.1567) -> (-585.375, 190.1567) construction
  line L209 (-593.375, 188.1567) -> (-593.375, 190.1567) construction
  arc A84 (-585.5799, 205.1701) -> (-578.75, 212) centre (-585.5799, 212) ccw
  line L210 (-593.375, 188.1567) -> (-585.375, 188.1567)
  line L211 (-598.5715, 205.1701) -> (-585.5799, 205.1701)
  arc A85 (-791.5296, 223.1932) -> (-795.0796, 217.0444) centre (-787.9796, 217.0444) ccw
  line L212 (-785.1284, 215.3983) -> (-794.1284, 220.5944) construction
  circle A86 centre (-785.1284, 215.3983) radius 2
  line L213 (-771.0796, 235) -> (-791.5296, 223.1932)
  line L214 (-795.0796, 217.0444) -> (-795.0796, 188.1567) construction
  line L215 (-730.3073, 278.0131) -> (-736.0283, 274.7101) construction
  line L216 (-757.0796, 300) -> (-757.0796, 238) construction
  line L217 (-730.3073, 283.9831) -> (-730.3073, 278.0131) construction
  line L218 (-730.3073, 283.9831) -> (-598.5715, 205.1701)
  line L219 (-600, 200) -> (-757.0796, 293.9753) construction
  spline S7 degree 4 poles (-757.0796, 300) (-757.0796, 288.9946) (-747.0234, 272.6841) (-724.1789, 236.7977) (-670.8039, 208.0704) (-631.8865, 200.2943) (-600, 200) knots 0 0 0 0 0 0.264547 0.457223 1 1 1 1 1 construction
  line L220 (-593.375, 188.1567) -> (-795.0796, 188.1567)
  line L221 (-771.0796, 280.0913) -> (-771.0796, 235)
  line L222 (-757.0796, 300) -> (-743.128, 291.6532)
  line L223 (-743.2208, 285.684) -> (-743.128, 291.6532)
  line L224 (-740.6463, 284.1438) -> (-743.2208, 285.684)
  line L225 (-737.3368, 294.5451) -> (-743.2815, 284.6085) construction
  line L226 (-741.0754, 284.4005) -> (-735.6205, 293.5183) construction
  line L227 (-740.6463, 284.1438) -> (-735.4304, 287.048)
  line L228 (-735.4304, 287.048) -> (-730.3073, 283.9831)
  line L229 (-767.4345, 320.8251) -> (-757.0796, 314.6302)
  line L230 (-771.0796, 280.0913) -> (-771.0796, 306.4587)
  line L231 (-757.0796, 314.6302) -> (-757.0796, 299.9865)
  circle A87 centre (-764.0796, 303.4587) radius 2
  line L232 (-771.0796, 306.4587) -> (-774.7248, 308.6394)
  circle A88 centre (-771.0796, 314.7323) radius 2.5
  arc A89 (-767.4345, 320.8251) -> (-774.7248, 308.6394) centre (-771.0796, 314.7323) ccw
  line L233 (-795.0796, 188.1567) -> (-814.2796, 188.1567)
  line L234 (-814.2796, 188.1567) -> (-814.2796, 192.1567)
  line L235 (-814.2796, 192.1567) -> (-798.0796, 192.1567)
  arc A90 (-798.0796, 192.1567) -> (-795.0796, 195.1567) centre (-798.0796, 195.1567) ccw
  line L236 (-795.0796, 195.1567) -> (-795.0796, 217.0444)
  line L237 (-799.0796, 188.1567) -> (-810.2796, 188.1567) construction
  line L238 (-810.2796, 188.1567) -> (-810.2796, 192.1567) construction
  line L239 (-810.2796, 192.1567) -> (-799.0796, 192.1567) construction
  line L240 (-799.0796, 192.1567) -> (-799.0796, 188.1567) construction
  line L241 (-799.0796, 188.1567) -> (-810.2796, 192.1567) construction
  line L242 (-810.2796, 188.1567) -> (-799.0796, 192.1567) construction
  line L243 (-495.0796, 587.6927) -> (-264.55, 587.6927) construction
  line L244 (-379.8148, 587.6927) -> (-379.8148, 614.3146) construction
  line L245 (-795.0796, 438) -> (-564.55, 438) construction
  line L246 (-679.8148, 438) -> (-679.8148, 492.8294) construction
  arc A91 (-564.55, 195.1567) -> (-561.55, 192.1567) centre (-561.55, 195.1567) ccw
  line L247 (-545.35, 192.1567) -> (-561.55, 192.1567)
  line L248 (-545.35, 188.1567) -> (-545.35, 192.1567)
  line L249 (-560.55, 192.1567) -> (-560.55, 188.1567) construction
  line L250 (-560.55, 188.1567) -> (-549.35, 188.1567) construction
  line L251 (-564.55, 188.1567) -> (-545.35, 188.1567)
  line L252 (-549.35, 188.1567) -> (-549.35, 192.1567) construction
  line L253 (-549.35, 192.1567) -> (-560.55, 192.1567) construction
  line L254 (-560.55, 188.1567) -> (-549.35, 192.1567) construction
  line L255 (-549.35, 188.1567) -> (-560.55, 192.1567) construction
  line L256 (-564.55, 195.1567) -> (-564.55, 212)
  circle A92 centre (-147.0796, 398.1567) radius 2
  circle A93 centre (-147.0796, 198.1567) radius 2
  circle A94 centre (-147.0796, -1.8433) radius 2
  circle A95 centre (-447.0796, 398.1567) radius 2
  circle A96 centre (-447.0796, 198.1567) radius 2
  circle A97 centre (-447.0796, -1.8433) radius 2
  circle A98 centre (-747.0796, 398.1567) radius 2 construction
  circle A99 centre (-747.0796, 198.1567) radius 2
  circle A100 centre (-747.0796, -1.8433) radius 2 construction
  line L257 (-264.55, 388.1567) -> (-245.35, 388.1567)
  line L258 (-245.35, 388.1567) -> (-245.35, 392.1567)
  line L259 (-245.35, 392.1567) -> (-261.55, 392.1567)
  arc A101 (-264.55, 395.1567) -> (-261.55, 392.1567) centre (-261.55, 395.1567) ccw
  line L260 (-260.55, 388.1567) -> (-249.35, 388.1567) construction
  line L261 (-249.35, 388.1567) -> (-249.35, 392.1567) construction
  line L262 (-249.35, 392.1567) -> (-260.55, 392.1567) construction
  line L263 (-260.55, 392.1567) -> (-260.55, 388.1567) construction
  line L264 (-260.55, 388.1567) -> (-249.35, 392.1567) construction
  line L265 (-249.35, 388.1567) -> (-260.55, 392.1567) construction
  line L266 (-264.55, 412) -> (-264.55, 395.1567)
  arc A102 (-157.0796, 106.4587) -> (-171.0796, 106.4587) centre (-164.0796, 106.4587) ccw
  line L267 (-157.0796, 106.4587) -> (-157.0796, 100)
  arc A103 (-157.0796, 306.4587) -> (-171.0796, 306.4587) centre (-164.0796, 306.4587) ccw
  line L268 (-157.0796, 306.4587) -> (-157.0796, 300)
  arc A104 (-157.0796, 506.4587) -> (-171.0796, 506.4587) centre (-164.0796, 506.4587) ccw
  line L269 (-157.0796, 506.4587) -> (-157.0796, 500)
  arc A105 (-457.0796, 106.4587) -> (-471.0796, 106.4587) centre (-464.0796, 106.4587) ccw
  line L270 (-457.0796, 106.4587) -> (-457.0796, 100)
  arc A106 (-457.0796, 306.4587) -> (-471.0796, 306.4587) centre (-464.0796, 306.4587) ccw
  line L271 (-457.0796, 306.4587) -> (-457.0796, 300)
  arc A107 (-457.0796, 506.4587) -> (-471.0796, 506.4587) centre (-464.0796, 506.4587) ccw construction
  line L272 (-457.0796, 506.4587) -> (-457.0796, 500) construction
  point P0 (158.3765, 0)
  point P1 (-148.021, 75)
  point P2 (-128.5398, 50)
  point P3 (-95.6611, 25)
  point P4 (-51.1799, 6.6987)
  point P5 (-155.8997, 93.3013)
  point P6 (-148.021, 275)
  point P7 (-128.5398, 250)
  point P8 (-95.6611, 225)
  point P9 (-51.1799, 206.6987)
  point P10 (-157.0796, 303.4587)
  point P11 (-157.0796, 200)
  point P12 (-171.0796, 303.4587)
  point P13 (-6, 188.1567)
  point P14 (-142.7917, 285.4273)
  point P15 (-148.021, 475)
  point P16 (-128.5398, 450)
  point P17 (-95.6611, 425)
  point P18 (-51.1799, 406.6987)
  point P19 (-157.0796, 503.4587)
  point P20 (-157.0796, 400)
  point P21 (-171.0796, 503.4587)
  point P22 (-6, 388.1567)
  point P23 (-142.7917, 485.4273)
  point P24 (-448.021, 75)
  point P25 (-428.5398, 50)
  point P26 (-395.6611, 25)
  point P27 (-351.1799, 6.6987)
  point P28 (-457.0796, 103.4587)
  point P29 (-457.0796, 0)
  point P30 (-471.0796, 103.4587)
  point P31 (-306, -11.8433)
  point P32 (-442.7917, 85.4273)
  point P33 (-448.021, 275)
  point P34 (-428.5398, 250)
  point P35 (-395.6611, 225)
  point P36 (-351.1799, 206.6987)
  point P37 (-457.0796, 303.4587)
  point P38 (-457.0796, 200)
  point P39 (-471.0796, 303.4587)
  point P40 (-306, 188.1567)
  point P41 (-442.7917, 285.4273)
  point P42 (-448.021, 475)
  point P43 (-428.5398, 450)
  point P44 (-395.6611, 425)
  point P45 (-351.1799, 406.6987)
  point P46 (-457.0796, 503.4587)
  point P47 (-457.0796, 400)
  point P48 (-471.0796, 503.4587)
  point P49 (-306, 388.1567)
  point P50 (-442.7917, 485.4273)
  point P51 (-421.2258, 50.7726)
  point P52 (-392.6255, 29.6644)
  point P53 (-346.6709, 11.6004)
  point P54 (-436.0267, 68.102)
  point P55 (-457.0796, 503.4587)
  point P56 (-504.6796, 390.1567)
  point P57 (-606, 188.1567)
  point P58 (-757.0796, 200)
  point P59 (-748.021, 275)
  point P60 (-728.5398, 250)
  point P61 (-757.0796, 303.4587)
  point P62 (-695.6611, 225)
  point P63 (-651.1799, 206.6987)
  point P64 (-742.7917, 285.4273)
  point P65 (-771.0796, 303.4587)
  point P66 (-804.6796, 190.1567)
  point P67 (-564.55, 188.1567)
  point P68 (-554.95, 190.1567)
  point P69 (-254.95, 390.1567)
  dimension "d43" = 25.75
  dimension "diameter" = 100
  dimension "d8" = 26.1799
  dimension "d14" = 30
  dimension "d15" = 30
  dimension "d16" = 30
  dimension "d32" = 10.625
  dimension "d47" = 8
  dimension "d49" = 2
  dimension "d53" = 21.25
  dimension "d62" = 20.825
  dimension "d123" = 120
  dimension "d126" = 59.109
  dimension "d137" = 2
  dimension "d138" = 90
  dimension "d139" = 90
  dimension "d141" = 7.1
  dimension "d142" = 14
  dimension "d143" = 7.1
  dimension "d144" = 12
  dimension "d145" = 5
  dimension "d146" = 35
  dimension "d147" = 24
  dimension "hole" = 4
  dimension "d155" = 4
  dimension "d156" = 9
  dimension "d157" = 4
  dimension "d158" = 6
  dimension "d159" = 4
  dimension "d160" = 4
  dimension "d241" = 120.891
  dimension "d244" = 120
  dimension "d245" = 30
  dimension "d246" = 3
  dimension "d249" = 200
  dimension "d252" = 300
  dimension "d255" = 120
  dimension "d256" = 5.1701
  dimension "d259" = 0.5
  dimension "d260" = 0.5
  dimension "d261" = 120
  dimension "d262" = 120
  dimension "d264" = 5.1701
  dimension "d265" = 38
  dimension "d268" = 300
  dimension "d275" = 200
  dimension "d288" = 5.1701
  dimension "d289" = 5.1701
  dimension "d290" = 5.1701
  dimension "d291" = 5.1701
  dimension "d292" = 11.2
  dimension "d293" = 4
  dimension "d294" = 4
  dimension "d296" = 3
  dimension "d299" = 300
  dimension "d324" = 11.2
  dimension "d325" = 4
  dimension "d326" = 4
  dimension "d328" = 3
  dimension "d330" = 4
  dimension "d331" = 10
  dimension "d332" = 10
  dimension "d335" = 200
  dimension "d338" = 300
  dimension "d341" = 7.1
  dimension "d342" = 4.6
sketch "Sketch5" plane through (0, 0, 0) normal (0, 0, 1) x (1, 0, 0)
  circle A0 centre (-171.0796, 114.7323) radius 2
  arc A1 (-168.5126, 119.023) -> (-173.6466, 110.4415) centre (-171.0796, 114.7323) ccw construction
  line L0 (-173.6466, 110.4415) -> (-168.5126, 119.023) construction
  line L1 (-137.3368, 94.5451) -> (-171.0796, 114.7323) construction
  line L2 (-137.3368, 94.5451) -> (-143.2815, 84.6085) construction
  line L3 (-141.0754, 84.4005) -> (-135.6205, 93.5183) construction
  line L4 (-142.7917, 85.4273) -> (-141.0754, 84.4005) construction
  line L5 (-173.6466, 110.4415) -> (-138.1875, 89.2276) construction
  line L6 (-138.1875, 89.2276) -> (-133.0535, 97.8091)
  line L7 (-133.0535, 97.8091) -> (-168.5126, 119.023) construction
  line L8 (-159.6382, 113.7138) -> (-159.6382, 107.8873)
  line L9 (-159.6382, 107.8873) -> (-145.3456, 99.3365)
  line L10 (-133.0535, 97.8091) -> (-140.2116, 102.0915)
  line L11 (-152.4919, 103.6119) -> (-153.6918, 101.6062)
  line L12 (-140.2116, 102.0915) -> (-145.3456, 99.3365)
  line L13 (-159.6382, 113.7138) -> (-168.5126, 119.023)
  line L14 (-135.6205, 93.5183) -> (-169.3633, 113.7055) construction
  line L15 (-168.5126, 119.023) -> (-189.9664, 131.858)
  arc A2 (-189.9664, 131.858) -> (-195.1004, 123.2766) centre (-192.5334, 127.5673) ccw
  line L16 (-195.1004, 123.2766) -> (-173.6466, 110.4415)
  line L17 (-142.7917, 85.4273) -> (-141.0754, 84.4005)
  line L18 (-141.0754, 84.4005) -> (-138.1875, 89.2276)
  line L19 (-142.7917, 85.4273) -> (-142.6907, 91.9217)
  line L20 (-142.6907, 91.9217) -> (-173.6466, 110.4415)
  arc A3 (-141.0754, 84.4005) -> (-138.014, 141.6941) centre (-171.0796, 114.7323) ccw construction
  point P0 (0, 0)
  dimension "d346" = 4
  dimension "d347" = 3
  dimension "d356" = 25
  dimension "d357" = 120
extrude "Extrusion4" add sketch "Sketch3" along normal blind 3 contours L71 A103 L268 L169 L87 A25 L84 L83 L80 A30 L81 L82 | L75 L77 L78 A29 L76 A28
properties part number "2linepath"
